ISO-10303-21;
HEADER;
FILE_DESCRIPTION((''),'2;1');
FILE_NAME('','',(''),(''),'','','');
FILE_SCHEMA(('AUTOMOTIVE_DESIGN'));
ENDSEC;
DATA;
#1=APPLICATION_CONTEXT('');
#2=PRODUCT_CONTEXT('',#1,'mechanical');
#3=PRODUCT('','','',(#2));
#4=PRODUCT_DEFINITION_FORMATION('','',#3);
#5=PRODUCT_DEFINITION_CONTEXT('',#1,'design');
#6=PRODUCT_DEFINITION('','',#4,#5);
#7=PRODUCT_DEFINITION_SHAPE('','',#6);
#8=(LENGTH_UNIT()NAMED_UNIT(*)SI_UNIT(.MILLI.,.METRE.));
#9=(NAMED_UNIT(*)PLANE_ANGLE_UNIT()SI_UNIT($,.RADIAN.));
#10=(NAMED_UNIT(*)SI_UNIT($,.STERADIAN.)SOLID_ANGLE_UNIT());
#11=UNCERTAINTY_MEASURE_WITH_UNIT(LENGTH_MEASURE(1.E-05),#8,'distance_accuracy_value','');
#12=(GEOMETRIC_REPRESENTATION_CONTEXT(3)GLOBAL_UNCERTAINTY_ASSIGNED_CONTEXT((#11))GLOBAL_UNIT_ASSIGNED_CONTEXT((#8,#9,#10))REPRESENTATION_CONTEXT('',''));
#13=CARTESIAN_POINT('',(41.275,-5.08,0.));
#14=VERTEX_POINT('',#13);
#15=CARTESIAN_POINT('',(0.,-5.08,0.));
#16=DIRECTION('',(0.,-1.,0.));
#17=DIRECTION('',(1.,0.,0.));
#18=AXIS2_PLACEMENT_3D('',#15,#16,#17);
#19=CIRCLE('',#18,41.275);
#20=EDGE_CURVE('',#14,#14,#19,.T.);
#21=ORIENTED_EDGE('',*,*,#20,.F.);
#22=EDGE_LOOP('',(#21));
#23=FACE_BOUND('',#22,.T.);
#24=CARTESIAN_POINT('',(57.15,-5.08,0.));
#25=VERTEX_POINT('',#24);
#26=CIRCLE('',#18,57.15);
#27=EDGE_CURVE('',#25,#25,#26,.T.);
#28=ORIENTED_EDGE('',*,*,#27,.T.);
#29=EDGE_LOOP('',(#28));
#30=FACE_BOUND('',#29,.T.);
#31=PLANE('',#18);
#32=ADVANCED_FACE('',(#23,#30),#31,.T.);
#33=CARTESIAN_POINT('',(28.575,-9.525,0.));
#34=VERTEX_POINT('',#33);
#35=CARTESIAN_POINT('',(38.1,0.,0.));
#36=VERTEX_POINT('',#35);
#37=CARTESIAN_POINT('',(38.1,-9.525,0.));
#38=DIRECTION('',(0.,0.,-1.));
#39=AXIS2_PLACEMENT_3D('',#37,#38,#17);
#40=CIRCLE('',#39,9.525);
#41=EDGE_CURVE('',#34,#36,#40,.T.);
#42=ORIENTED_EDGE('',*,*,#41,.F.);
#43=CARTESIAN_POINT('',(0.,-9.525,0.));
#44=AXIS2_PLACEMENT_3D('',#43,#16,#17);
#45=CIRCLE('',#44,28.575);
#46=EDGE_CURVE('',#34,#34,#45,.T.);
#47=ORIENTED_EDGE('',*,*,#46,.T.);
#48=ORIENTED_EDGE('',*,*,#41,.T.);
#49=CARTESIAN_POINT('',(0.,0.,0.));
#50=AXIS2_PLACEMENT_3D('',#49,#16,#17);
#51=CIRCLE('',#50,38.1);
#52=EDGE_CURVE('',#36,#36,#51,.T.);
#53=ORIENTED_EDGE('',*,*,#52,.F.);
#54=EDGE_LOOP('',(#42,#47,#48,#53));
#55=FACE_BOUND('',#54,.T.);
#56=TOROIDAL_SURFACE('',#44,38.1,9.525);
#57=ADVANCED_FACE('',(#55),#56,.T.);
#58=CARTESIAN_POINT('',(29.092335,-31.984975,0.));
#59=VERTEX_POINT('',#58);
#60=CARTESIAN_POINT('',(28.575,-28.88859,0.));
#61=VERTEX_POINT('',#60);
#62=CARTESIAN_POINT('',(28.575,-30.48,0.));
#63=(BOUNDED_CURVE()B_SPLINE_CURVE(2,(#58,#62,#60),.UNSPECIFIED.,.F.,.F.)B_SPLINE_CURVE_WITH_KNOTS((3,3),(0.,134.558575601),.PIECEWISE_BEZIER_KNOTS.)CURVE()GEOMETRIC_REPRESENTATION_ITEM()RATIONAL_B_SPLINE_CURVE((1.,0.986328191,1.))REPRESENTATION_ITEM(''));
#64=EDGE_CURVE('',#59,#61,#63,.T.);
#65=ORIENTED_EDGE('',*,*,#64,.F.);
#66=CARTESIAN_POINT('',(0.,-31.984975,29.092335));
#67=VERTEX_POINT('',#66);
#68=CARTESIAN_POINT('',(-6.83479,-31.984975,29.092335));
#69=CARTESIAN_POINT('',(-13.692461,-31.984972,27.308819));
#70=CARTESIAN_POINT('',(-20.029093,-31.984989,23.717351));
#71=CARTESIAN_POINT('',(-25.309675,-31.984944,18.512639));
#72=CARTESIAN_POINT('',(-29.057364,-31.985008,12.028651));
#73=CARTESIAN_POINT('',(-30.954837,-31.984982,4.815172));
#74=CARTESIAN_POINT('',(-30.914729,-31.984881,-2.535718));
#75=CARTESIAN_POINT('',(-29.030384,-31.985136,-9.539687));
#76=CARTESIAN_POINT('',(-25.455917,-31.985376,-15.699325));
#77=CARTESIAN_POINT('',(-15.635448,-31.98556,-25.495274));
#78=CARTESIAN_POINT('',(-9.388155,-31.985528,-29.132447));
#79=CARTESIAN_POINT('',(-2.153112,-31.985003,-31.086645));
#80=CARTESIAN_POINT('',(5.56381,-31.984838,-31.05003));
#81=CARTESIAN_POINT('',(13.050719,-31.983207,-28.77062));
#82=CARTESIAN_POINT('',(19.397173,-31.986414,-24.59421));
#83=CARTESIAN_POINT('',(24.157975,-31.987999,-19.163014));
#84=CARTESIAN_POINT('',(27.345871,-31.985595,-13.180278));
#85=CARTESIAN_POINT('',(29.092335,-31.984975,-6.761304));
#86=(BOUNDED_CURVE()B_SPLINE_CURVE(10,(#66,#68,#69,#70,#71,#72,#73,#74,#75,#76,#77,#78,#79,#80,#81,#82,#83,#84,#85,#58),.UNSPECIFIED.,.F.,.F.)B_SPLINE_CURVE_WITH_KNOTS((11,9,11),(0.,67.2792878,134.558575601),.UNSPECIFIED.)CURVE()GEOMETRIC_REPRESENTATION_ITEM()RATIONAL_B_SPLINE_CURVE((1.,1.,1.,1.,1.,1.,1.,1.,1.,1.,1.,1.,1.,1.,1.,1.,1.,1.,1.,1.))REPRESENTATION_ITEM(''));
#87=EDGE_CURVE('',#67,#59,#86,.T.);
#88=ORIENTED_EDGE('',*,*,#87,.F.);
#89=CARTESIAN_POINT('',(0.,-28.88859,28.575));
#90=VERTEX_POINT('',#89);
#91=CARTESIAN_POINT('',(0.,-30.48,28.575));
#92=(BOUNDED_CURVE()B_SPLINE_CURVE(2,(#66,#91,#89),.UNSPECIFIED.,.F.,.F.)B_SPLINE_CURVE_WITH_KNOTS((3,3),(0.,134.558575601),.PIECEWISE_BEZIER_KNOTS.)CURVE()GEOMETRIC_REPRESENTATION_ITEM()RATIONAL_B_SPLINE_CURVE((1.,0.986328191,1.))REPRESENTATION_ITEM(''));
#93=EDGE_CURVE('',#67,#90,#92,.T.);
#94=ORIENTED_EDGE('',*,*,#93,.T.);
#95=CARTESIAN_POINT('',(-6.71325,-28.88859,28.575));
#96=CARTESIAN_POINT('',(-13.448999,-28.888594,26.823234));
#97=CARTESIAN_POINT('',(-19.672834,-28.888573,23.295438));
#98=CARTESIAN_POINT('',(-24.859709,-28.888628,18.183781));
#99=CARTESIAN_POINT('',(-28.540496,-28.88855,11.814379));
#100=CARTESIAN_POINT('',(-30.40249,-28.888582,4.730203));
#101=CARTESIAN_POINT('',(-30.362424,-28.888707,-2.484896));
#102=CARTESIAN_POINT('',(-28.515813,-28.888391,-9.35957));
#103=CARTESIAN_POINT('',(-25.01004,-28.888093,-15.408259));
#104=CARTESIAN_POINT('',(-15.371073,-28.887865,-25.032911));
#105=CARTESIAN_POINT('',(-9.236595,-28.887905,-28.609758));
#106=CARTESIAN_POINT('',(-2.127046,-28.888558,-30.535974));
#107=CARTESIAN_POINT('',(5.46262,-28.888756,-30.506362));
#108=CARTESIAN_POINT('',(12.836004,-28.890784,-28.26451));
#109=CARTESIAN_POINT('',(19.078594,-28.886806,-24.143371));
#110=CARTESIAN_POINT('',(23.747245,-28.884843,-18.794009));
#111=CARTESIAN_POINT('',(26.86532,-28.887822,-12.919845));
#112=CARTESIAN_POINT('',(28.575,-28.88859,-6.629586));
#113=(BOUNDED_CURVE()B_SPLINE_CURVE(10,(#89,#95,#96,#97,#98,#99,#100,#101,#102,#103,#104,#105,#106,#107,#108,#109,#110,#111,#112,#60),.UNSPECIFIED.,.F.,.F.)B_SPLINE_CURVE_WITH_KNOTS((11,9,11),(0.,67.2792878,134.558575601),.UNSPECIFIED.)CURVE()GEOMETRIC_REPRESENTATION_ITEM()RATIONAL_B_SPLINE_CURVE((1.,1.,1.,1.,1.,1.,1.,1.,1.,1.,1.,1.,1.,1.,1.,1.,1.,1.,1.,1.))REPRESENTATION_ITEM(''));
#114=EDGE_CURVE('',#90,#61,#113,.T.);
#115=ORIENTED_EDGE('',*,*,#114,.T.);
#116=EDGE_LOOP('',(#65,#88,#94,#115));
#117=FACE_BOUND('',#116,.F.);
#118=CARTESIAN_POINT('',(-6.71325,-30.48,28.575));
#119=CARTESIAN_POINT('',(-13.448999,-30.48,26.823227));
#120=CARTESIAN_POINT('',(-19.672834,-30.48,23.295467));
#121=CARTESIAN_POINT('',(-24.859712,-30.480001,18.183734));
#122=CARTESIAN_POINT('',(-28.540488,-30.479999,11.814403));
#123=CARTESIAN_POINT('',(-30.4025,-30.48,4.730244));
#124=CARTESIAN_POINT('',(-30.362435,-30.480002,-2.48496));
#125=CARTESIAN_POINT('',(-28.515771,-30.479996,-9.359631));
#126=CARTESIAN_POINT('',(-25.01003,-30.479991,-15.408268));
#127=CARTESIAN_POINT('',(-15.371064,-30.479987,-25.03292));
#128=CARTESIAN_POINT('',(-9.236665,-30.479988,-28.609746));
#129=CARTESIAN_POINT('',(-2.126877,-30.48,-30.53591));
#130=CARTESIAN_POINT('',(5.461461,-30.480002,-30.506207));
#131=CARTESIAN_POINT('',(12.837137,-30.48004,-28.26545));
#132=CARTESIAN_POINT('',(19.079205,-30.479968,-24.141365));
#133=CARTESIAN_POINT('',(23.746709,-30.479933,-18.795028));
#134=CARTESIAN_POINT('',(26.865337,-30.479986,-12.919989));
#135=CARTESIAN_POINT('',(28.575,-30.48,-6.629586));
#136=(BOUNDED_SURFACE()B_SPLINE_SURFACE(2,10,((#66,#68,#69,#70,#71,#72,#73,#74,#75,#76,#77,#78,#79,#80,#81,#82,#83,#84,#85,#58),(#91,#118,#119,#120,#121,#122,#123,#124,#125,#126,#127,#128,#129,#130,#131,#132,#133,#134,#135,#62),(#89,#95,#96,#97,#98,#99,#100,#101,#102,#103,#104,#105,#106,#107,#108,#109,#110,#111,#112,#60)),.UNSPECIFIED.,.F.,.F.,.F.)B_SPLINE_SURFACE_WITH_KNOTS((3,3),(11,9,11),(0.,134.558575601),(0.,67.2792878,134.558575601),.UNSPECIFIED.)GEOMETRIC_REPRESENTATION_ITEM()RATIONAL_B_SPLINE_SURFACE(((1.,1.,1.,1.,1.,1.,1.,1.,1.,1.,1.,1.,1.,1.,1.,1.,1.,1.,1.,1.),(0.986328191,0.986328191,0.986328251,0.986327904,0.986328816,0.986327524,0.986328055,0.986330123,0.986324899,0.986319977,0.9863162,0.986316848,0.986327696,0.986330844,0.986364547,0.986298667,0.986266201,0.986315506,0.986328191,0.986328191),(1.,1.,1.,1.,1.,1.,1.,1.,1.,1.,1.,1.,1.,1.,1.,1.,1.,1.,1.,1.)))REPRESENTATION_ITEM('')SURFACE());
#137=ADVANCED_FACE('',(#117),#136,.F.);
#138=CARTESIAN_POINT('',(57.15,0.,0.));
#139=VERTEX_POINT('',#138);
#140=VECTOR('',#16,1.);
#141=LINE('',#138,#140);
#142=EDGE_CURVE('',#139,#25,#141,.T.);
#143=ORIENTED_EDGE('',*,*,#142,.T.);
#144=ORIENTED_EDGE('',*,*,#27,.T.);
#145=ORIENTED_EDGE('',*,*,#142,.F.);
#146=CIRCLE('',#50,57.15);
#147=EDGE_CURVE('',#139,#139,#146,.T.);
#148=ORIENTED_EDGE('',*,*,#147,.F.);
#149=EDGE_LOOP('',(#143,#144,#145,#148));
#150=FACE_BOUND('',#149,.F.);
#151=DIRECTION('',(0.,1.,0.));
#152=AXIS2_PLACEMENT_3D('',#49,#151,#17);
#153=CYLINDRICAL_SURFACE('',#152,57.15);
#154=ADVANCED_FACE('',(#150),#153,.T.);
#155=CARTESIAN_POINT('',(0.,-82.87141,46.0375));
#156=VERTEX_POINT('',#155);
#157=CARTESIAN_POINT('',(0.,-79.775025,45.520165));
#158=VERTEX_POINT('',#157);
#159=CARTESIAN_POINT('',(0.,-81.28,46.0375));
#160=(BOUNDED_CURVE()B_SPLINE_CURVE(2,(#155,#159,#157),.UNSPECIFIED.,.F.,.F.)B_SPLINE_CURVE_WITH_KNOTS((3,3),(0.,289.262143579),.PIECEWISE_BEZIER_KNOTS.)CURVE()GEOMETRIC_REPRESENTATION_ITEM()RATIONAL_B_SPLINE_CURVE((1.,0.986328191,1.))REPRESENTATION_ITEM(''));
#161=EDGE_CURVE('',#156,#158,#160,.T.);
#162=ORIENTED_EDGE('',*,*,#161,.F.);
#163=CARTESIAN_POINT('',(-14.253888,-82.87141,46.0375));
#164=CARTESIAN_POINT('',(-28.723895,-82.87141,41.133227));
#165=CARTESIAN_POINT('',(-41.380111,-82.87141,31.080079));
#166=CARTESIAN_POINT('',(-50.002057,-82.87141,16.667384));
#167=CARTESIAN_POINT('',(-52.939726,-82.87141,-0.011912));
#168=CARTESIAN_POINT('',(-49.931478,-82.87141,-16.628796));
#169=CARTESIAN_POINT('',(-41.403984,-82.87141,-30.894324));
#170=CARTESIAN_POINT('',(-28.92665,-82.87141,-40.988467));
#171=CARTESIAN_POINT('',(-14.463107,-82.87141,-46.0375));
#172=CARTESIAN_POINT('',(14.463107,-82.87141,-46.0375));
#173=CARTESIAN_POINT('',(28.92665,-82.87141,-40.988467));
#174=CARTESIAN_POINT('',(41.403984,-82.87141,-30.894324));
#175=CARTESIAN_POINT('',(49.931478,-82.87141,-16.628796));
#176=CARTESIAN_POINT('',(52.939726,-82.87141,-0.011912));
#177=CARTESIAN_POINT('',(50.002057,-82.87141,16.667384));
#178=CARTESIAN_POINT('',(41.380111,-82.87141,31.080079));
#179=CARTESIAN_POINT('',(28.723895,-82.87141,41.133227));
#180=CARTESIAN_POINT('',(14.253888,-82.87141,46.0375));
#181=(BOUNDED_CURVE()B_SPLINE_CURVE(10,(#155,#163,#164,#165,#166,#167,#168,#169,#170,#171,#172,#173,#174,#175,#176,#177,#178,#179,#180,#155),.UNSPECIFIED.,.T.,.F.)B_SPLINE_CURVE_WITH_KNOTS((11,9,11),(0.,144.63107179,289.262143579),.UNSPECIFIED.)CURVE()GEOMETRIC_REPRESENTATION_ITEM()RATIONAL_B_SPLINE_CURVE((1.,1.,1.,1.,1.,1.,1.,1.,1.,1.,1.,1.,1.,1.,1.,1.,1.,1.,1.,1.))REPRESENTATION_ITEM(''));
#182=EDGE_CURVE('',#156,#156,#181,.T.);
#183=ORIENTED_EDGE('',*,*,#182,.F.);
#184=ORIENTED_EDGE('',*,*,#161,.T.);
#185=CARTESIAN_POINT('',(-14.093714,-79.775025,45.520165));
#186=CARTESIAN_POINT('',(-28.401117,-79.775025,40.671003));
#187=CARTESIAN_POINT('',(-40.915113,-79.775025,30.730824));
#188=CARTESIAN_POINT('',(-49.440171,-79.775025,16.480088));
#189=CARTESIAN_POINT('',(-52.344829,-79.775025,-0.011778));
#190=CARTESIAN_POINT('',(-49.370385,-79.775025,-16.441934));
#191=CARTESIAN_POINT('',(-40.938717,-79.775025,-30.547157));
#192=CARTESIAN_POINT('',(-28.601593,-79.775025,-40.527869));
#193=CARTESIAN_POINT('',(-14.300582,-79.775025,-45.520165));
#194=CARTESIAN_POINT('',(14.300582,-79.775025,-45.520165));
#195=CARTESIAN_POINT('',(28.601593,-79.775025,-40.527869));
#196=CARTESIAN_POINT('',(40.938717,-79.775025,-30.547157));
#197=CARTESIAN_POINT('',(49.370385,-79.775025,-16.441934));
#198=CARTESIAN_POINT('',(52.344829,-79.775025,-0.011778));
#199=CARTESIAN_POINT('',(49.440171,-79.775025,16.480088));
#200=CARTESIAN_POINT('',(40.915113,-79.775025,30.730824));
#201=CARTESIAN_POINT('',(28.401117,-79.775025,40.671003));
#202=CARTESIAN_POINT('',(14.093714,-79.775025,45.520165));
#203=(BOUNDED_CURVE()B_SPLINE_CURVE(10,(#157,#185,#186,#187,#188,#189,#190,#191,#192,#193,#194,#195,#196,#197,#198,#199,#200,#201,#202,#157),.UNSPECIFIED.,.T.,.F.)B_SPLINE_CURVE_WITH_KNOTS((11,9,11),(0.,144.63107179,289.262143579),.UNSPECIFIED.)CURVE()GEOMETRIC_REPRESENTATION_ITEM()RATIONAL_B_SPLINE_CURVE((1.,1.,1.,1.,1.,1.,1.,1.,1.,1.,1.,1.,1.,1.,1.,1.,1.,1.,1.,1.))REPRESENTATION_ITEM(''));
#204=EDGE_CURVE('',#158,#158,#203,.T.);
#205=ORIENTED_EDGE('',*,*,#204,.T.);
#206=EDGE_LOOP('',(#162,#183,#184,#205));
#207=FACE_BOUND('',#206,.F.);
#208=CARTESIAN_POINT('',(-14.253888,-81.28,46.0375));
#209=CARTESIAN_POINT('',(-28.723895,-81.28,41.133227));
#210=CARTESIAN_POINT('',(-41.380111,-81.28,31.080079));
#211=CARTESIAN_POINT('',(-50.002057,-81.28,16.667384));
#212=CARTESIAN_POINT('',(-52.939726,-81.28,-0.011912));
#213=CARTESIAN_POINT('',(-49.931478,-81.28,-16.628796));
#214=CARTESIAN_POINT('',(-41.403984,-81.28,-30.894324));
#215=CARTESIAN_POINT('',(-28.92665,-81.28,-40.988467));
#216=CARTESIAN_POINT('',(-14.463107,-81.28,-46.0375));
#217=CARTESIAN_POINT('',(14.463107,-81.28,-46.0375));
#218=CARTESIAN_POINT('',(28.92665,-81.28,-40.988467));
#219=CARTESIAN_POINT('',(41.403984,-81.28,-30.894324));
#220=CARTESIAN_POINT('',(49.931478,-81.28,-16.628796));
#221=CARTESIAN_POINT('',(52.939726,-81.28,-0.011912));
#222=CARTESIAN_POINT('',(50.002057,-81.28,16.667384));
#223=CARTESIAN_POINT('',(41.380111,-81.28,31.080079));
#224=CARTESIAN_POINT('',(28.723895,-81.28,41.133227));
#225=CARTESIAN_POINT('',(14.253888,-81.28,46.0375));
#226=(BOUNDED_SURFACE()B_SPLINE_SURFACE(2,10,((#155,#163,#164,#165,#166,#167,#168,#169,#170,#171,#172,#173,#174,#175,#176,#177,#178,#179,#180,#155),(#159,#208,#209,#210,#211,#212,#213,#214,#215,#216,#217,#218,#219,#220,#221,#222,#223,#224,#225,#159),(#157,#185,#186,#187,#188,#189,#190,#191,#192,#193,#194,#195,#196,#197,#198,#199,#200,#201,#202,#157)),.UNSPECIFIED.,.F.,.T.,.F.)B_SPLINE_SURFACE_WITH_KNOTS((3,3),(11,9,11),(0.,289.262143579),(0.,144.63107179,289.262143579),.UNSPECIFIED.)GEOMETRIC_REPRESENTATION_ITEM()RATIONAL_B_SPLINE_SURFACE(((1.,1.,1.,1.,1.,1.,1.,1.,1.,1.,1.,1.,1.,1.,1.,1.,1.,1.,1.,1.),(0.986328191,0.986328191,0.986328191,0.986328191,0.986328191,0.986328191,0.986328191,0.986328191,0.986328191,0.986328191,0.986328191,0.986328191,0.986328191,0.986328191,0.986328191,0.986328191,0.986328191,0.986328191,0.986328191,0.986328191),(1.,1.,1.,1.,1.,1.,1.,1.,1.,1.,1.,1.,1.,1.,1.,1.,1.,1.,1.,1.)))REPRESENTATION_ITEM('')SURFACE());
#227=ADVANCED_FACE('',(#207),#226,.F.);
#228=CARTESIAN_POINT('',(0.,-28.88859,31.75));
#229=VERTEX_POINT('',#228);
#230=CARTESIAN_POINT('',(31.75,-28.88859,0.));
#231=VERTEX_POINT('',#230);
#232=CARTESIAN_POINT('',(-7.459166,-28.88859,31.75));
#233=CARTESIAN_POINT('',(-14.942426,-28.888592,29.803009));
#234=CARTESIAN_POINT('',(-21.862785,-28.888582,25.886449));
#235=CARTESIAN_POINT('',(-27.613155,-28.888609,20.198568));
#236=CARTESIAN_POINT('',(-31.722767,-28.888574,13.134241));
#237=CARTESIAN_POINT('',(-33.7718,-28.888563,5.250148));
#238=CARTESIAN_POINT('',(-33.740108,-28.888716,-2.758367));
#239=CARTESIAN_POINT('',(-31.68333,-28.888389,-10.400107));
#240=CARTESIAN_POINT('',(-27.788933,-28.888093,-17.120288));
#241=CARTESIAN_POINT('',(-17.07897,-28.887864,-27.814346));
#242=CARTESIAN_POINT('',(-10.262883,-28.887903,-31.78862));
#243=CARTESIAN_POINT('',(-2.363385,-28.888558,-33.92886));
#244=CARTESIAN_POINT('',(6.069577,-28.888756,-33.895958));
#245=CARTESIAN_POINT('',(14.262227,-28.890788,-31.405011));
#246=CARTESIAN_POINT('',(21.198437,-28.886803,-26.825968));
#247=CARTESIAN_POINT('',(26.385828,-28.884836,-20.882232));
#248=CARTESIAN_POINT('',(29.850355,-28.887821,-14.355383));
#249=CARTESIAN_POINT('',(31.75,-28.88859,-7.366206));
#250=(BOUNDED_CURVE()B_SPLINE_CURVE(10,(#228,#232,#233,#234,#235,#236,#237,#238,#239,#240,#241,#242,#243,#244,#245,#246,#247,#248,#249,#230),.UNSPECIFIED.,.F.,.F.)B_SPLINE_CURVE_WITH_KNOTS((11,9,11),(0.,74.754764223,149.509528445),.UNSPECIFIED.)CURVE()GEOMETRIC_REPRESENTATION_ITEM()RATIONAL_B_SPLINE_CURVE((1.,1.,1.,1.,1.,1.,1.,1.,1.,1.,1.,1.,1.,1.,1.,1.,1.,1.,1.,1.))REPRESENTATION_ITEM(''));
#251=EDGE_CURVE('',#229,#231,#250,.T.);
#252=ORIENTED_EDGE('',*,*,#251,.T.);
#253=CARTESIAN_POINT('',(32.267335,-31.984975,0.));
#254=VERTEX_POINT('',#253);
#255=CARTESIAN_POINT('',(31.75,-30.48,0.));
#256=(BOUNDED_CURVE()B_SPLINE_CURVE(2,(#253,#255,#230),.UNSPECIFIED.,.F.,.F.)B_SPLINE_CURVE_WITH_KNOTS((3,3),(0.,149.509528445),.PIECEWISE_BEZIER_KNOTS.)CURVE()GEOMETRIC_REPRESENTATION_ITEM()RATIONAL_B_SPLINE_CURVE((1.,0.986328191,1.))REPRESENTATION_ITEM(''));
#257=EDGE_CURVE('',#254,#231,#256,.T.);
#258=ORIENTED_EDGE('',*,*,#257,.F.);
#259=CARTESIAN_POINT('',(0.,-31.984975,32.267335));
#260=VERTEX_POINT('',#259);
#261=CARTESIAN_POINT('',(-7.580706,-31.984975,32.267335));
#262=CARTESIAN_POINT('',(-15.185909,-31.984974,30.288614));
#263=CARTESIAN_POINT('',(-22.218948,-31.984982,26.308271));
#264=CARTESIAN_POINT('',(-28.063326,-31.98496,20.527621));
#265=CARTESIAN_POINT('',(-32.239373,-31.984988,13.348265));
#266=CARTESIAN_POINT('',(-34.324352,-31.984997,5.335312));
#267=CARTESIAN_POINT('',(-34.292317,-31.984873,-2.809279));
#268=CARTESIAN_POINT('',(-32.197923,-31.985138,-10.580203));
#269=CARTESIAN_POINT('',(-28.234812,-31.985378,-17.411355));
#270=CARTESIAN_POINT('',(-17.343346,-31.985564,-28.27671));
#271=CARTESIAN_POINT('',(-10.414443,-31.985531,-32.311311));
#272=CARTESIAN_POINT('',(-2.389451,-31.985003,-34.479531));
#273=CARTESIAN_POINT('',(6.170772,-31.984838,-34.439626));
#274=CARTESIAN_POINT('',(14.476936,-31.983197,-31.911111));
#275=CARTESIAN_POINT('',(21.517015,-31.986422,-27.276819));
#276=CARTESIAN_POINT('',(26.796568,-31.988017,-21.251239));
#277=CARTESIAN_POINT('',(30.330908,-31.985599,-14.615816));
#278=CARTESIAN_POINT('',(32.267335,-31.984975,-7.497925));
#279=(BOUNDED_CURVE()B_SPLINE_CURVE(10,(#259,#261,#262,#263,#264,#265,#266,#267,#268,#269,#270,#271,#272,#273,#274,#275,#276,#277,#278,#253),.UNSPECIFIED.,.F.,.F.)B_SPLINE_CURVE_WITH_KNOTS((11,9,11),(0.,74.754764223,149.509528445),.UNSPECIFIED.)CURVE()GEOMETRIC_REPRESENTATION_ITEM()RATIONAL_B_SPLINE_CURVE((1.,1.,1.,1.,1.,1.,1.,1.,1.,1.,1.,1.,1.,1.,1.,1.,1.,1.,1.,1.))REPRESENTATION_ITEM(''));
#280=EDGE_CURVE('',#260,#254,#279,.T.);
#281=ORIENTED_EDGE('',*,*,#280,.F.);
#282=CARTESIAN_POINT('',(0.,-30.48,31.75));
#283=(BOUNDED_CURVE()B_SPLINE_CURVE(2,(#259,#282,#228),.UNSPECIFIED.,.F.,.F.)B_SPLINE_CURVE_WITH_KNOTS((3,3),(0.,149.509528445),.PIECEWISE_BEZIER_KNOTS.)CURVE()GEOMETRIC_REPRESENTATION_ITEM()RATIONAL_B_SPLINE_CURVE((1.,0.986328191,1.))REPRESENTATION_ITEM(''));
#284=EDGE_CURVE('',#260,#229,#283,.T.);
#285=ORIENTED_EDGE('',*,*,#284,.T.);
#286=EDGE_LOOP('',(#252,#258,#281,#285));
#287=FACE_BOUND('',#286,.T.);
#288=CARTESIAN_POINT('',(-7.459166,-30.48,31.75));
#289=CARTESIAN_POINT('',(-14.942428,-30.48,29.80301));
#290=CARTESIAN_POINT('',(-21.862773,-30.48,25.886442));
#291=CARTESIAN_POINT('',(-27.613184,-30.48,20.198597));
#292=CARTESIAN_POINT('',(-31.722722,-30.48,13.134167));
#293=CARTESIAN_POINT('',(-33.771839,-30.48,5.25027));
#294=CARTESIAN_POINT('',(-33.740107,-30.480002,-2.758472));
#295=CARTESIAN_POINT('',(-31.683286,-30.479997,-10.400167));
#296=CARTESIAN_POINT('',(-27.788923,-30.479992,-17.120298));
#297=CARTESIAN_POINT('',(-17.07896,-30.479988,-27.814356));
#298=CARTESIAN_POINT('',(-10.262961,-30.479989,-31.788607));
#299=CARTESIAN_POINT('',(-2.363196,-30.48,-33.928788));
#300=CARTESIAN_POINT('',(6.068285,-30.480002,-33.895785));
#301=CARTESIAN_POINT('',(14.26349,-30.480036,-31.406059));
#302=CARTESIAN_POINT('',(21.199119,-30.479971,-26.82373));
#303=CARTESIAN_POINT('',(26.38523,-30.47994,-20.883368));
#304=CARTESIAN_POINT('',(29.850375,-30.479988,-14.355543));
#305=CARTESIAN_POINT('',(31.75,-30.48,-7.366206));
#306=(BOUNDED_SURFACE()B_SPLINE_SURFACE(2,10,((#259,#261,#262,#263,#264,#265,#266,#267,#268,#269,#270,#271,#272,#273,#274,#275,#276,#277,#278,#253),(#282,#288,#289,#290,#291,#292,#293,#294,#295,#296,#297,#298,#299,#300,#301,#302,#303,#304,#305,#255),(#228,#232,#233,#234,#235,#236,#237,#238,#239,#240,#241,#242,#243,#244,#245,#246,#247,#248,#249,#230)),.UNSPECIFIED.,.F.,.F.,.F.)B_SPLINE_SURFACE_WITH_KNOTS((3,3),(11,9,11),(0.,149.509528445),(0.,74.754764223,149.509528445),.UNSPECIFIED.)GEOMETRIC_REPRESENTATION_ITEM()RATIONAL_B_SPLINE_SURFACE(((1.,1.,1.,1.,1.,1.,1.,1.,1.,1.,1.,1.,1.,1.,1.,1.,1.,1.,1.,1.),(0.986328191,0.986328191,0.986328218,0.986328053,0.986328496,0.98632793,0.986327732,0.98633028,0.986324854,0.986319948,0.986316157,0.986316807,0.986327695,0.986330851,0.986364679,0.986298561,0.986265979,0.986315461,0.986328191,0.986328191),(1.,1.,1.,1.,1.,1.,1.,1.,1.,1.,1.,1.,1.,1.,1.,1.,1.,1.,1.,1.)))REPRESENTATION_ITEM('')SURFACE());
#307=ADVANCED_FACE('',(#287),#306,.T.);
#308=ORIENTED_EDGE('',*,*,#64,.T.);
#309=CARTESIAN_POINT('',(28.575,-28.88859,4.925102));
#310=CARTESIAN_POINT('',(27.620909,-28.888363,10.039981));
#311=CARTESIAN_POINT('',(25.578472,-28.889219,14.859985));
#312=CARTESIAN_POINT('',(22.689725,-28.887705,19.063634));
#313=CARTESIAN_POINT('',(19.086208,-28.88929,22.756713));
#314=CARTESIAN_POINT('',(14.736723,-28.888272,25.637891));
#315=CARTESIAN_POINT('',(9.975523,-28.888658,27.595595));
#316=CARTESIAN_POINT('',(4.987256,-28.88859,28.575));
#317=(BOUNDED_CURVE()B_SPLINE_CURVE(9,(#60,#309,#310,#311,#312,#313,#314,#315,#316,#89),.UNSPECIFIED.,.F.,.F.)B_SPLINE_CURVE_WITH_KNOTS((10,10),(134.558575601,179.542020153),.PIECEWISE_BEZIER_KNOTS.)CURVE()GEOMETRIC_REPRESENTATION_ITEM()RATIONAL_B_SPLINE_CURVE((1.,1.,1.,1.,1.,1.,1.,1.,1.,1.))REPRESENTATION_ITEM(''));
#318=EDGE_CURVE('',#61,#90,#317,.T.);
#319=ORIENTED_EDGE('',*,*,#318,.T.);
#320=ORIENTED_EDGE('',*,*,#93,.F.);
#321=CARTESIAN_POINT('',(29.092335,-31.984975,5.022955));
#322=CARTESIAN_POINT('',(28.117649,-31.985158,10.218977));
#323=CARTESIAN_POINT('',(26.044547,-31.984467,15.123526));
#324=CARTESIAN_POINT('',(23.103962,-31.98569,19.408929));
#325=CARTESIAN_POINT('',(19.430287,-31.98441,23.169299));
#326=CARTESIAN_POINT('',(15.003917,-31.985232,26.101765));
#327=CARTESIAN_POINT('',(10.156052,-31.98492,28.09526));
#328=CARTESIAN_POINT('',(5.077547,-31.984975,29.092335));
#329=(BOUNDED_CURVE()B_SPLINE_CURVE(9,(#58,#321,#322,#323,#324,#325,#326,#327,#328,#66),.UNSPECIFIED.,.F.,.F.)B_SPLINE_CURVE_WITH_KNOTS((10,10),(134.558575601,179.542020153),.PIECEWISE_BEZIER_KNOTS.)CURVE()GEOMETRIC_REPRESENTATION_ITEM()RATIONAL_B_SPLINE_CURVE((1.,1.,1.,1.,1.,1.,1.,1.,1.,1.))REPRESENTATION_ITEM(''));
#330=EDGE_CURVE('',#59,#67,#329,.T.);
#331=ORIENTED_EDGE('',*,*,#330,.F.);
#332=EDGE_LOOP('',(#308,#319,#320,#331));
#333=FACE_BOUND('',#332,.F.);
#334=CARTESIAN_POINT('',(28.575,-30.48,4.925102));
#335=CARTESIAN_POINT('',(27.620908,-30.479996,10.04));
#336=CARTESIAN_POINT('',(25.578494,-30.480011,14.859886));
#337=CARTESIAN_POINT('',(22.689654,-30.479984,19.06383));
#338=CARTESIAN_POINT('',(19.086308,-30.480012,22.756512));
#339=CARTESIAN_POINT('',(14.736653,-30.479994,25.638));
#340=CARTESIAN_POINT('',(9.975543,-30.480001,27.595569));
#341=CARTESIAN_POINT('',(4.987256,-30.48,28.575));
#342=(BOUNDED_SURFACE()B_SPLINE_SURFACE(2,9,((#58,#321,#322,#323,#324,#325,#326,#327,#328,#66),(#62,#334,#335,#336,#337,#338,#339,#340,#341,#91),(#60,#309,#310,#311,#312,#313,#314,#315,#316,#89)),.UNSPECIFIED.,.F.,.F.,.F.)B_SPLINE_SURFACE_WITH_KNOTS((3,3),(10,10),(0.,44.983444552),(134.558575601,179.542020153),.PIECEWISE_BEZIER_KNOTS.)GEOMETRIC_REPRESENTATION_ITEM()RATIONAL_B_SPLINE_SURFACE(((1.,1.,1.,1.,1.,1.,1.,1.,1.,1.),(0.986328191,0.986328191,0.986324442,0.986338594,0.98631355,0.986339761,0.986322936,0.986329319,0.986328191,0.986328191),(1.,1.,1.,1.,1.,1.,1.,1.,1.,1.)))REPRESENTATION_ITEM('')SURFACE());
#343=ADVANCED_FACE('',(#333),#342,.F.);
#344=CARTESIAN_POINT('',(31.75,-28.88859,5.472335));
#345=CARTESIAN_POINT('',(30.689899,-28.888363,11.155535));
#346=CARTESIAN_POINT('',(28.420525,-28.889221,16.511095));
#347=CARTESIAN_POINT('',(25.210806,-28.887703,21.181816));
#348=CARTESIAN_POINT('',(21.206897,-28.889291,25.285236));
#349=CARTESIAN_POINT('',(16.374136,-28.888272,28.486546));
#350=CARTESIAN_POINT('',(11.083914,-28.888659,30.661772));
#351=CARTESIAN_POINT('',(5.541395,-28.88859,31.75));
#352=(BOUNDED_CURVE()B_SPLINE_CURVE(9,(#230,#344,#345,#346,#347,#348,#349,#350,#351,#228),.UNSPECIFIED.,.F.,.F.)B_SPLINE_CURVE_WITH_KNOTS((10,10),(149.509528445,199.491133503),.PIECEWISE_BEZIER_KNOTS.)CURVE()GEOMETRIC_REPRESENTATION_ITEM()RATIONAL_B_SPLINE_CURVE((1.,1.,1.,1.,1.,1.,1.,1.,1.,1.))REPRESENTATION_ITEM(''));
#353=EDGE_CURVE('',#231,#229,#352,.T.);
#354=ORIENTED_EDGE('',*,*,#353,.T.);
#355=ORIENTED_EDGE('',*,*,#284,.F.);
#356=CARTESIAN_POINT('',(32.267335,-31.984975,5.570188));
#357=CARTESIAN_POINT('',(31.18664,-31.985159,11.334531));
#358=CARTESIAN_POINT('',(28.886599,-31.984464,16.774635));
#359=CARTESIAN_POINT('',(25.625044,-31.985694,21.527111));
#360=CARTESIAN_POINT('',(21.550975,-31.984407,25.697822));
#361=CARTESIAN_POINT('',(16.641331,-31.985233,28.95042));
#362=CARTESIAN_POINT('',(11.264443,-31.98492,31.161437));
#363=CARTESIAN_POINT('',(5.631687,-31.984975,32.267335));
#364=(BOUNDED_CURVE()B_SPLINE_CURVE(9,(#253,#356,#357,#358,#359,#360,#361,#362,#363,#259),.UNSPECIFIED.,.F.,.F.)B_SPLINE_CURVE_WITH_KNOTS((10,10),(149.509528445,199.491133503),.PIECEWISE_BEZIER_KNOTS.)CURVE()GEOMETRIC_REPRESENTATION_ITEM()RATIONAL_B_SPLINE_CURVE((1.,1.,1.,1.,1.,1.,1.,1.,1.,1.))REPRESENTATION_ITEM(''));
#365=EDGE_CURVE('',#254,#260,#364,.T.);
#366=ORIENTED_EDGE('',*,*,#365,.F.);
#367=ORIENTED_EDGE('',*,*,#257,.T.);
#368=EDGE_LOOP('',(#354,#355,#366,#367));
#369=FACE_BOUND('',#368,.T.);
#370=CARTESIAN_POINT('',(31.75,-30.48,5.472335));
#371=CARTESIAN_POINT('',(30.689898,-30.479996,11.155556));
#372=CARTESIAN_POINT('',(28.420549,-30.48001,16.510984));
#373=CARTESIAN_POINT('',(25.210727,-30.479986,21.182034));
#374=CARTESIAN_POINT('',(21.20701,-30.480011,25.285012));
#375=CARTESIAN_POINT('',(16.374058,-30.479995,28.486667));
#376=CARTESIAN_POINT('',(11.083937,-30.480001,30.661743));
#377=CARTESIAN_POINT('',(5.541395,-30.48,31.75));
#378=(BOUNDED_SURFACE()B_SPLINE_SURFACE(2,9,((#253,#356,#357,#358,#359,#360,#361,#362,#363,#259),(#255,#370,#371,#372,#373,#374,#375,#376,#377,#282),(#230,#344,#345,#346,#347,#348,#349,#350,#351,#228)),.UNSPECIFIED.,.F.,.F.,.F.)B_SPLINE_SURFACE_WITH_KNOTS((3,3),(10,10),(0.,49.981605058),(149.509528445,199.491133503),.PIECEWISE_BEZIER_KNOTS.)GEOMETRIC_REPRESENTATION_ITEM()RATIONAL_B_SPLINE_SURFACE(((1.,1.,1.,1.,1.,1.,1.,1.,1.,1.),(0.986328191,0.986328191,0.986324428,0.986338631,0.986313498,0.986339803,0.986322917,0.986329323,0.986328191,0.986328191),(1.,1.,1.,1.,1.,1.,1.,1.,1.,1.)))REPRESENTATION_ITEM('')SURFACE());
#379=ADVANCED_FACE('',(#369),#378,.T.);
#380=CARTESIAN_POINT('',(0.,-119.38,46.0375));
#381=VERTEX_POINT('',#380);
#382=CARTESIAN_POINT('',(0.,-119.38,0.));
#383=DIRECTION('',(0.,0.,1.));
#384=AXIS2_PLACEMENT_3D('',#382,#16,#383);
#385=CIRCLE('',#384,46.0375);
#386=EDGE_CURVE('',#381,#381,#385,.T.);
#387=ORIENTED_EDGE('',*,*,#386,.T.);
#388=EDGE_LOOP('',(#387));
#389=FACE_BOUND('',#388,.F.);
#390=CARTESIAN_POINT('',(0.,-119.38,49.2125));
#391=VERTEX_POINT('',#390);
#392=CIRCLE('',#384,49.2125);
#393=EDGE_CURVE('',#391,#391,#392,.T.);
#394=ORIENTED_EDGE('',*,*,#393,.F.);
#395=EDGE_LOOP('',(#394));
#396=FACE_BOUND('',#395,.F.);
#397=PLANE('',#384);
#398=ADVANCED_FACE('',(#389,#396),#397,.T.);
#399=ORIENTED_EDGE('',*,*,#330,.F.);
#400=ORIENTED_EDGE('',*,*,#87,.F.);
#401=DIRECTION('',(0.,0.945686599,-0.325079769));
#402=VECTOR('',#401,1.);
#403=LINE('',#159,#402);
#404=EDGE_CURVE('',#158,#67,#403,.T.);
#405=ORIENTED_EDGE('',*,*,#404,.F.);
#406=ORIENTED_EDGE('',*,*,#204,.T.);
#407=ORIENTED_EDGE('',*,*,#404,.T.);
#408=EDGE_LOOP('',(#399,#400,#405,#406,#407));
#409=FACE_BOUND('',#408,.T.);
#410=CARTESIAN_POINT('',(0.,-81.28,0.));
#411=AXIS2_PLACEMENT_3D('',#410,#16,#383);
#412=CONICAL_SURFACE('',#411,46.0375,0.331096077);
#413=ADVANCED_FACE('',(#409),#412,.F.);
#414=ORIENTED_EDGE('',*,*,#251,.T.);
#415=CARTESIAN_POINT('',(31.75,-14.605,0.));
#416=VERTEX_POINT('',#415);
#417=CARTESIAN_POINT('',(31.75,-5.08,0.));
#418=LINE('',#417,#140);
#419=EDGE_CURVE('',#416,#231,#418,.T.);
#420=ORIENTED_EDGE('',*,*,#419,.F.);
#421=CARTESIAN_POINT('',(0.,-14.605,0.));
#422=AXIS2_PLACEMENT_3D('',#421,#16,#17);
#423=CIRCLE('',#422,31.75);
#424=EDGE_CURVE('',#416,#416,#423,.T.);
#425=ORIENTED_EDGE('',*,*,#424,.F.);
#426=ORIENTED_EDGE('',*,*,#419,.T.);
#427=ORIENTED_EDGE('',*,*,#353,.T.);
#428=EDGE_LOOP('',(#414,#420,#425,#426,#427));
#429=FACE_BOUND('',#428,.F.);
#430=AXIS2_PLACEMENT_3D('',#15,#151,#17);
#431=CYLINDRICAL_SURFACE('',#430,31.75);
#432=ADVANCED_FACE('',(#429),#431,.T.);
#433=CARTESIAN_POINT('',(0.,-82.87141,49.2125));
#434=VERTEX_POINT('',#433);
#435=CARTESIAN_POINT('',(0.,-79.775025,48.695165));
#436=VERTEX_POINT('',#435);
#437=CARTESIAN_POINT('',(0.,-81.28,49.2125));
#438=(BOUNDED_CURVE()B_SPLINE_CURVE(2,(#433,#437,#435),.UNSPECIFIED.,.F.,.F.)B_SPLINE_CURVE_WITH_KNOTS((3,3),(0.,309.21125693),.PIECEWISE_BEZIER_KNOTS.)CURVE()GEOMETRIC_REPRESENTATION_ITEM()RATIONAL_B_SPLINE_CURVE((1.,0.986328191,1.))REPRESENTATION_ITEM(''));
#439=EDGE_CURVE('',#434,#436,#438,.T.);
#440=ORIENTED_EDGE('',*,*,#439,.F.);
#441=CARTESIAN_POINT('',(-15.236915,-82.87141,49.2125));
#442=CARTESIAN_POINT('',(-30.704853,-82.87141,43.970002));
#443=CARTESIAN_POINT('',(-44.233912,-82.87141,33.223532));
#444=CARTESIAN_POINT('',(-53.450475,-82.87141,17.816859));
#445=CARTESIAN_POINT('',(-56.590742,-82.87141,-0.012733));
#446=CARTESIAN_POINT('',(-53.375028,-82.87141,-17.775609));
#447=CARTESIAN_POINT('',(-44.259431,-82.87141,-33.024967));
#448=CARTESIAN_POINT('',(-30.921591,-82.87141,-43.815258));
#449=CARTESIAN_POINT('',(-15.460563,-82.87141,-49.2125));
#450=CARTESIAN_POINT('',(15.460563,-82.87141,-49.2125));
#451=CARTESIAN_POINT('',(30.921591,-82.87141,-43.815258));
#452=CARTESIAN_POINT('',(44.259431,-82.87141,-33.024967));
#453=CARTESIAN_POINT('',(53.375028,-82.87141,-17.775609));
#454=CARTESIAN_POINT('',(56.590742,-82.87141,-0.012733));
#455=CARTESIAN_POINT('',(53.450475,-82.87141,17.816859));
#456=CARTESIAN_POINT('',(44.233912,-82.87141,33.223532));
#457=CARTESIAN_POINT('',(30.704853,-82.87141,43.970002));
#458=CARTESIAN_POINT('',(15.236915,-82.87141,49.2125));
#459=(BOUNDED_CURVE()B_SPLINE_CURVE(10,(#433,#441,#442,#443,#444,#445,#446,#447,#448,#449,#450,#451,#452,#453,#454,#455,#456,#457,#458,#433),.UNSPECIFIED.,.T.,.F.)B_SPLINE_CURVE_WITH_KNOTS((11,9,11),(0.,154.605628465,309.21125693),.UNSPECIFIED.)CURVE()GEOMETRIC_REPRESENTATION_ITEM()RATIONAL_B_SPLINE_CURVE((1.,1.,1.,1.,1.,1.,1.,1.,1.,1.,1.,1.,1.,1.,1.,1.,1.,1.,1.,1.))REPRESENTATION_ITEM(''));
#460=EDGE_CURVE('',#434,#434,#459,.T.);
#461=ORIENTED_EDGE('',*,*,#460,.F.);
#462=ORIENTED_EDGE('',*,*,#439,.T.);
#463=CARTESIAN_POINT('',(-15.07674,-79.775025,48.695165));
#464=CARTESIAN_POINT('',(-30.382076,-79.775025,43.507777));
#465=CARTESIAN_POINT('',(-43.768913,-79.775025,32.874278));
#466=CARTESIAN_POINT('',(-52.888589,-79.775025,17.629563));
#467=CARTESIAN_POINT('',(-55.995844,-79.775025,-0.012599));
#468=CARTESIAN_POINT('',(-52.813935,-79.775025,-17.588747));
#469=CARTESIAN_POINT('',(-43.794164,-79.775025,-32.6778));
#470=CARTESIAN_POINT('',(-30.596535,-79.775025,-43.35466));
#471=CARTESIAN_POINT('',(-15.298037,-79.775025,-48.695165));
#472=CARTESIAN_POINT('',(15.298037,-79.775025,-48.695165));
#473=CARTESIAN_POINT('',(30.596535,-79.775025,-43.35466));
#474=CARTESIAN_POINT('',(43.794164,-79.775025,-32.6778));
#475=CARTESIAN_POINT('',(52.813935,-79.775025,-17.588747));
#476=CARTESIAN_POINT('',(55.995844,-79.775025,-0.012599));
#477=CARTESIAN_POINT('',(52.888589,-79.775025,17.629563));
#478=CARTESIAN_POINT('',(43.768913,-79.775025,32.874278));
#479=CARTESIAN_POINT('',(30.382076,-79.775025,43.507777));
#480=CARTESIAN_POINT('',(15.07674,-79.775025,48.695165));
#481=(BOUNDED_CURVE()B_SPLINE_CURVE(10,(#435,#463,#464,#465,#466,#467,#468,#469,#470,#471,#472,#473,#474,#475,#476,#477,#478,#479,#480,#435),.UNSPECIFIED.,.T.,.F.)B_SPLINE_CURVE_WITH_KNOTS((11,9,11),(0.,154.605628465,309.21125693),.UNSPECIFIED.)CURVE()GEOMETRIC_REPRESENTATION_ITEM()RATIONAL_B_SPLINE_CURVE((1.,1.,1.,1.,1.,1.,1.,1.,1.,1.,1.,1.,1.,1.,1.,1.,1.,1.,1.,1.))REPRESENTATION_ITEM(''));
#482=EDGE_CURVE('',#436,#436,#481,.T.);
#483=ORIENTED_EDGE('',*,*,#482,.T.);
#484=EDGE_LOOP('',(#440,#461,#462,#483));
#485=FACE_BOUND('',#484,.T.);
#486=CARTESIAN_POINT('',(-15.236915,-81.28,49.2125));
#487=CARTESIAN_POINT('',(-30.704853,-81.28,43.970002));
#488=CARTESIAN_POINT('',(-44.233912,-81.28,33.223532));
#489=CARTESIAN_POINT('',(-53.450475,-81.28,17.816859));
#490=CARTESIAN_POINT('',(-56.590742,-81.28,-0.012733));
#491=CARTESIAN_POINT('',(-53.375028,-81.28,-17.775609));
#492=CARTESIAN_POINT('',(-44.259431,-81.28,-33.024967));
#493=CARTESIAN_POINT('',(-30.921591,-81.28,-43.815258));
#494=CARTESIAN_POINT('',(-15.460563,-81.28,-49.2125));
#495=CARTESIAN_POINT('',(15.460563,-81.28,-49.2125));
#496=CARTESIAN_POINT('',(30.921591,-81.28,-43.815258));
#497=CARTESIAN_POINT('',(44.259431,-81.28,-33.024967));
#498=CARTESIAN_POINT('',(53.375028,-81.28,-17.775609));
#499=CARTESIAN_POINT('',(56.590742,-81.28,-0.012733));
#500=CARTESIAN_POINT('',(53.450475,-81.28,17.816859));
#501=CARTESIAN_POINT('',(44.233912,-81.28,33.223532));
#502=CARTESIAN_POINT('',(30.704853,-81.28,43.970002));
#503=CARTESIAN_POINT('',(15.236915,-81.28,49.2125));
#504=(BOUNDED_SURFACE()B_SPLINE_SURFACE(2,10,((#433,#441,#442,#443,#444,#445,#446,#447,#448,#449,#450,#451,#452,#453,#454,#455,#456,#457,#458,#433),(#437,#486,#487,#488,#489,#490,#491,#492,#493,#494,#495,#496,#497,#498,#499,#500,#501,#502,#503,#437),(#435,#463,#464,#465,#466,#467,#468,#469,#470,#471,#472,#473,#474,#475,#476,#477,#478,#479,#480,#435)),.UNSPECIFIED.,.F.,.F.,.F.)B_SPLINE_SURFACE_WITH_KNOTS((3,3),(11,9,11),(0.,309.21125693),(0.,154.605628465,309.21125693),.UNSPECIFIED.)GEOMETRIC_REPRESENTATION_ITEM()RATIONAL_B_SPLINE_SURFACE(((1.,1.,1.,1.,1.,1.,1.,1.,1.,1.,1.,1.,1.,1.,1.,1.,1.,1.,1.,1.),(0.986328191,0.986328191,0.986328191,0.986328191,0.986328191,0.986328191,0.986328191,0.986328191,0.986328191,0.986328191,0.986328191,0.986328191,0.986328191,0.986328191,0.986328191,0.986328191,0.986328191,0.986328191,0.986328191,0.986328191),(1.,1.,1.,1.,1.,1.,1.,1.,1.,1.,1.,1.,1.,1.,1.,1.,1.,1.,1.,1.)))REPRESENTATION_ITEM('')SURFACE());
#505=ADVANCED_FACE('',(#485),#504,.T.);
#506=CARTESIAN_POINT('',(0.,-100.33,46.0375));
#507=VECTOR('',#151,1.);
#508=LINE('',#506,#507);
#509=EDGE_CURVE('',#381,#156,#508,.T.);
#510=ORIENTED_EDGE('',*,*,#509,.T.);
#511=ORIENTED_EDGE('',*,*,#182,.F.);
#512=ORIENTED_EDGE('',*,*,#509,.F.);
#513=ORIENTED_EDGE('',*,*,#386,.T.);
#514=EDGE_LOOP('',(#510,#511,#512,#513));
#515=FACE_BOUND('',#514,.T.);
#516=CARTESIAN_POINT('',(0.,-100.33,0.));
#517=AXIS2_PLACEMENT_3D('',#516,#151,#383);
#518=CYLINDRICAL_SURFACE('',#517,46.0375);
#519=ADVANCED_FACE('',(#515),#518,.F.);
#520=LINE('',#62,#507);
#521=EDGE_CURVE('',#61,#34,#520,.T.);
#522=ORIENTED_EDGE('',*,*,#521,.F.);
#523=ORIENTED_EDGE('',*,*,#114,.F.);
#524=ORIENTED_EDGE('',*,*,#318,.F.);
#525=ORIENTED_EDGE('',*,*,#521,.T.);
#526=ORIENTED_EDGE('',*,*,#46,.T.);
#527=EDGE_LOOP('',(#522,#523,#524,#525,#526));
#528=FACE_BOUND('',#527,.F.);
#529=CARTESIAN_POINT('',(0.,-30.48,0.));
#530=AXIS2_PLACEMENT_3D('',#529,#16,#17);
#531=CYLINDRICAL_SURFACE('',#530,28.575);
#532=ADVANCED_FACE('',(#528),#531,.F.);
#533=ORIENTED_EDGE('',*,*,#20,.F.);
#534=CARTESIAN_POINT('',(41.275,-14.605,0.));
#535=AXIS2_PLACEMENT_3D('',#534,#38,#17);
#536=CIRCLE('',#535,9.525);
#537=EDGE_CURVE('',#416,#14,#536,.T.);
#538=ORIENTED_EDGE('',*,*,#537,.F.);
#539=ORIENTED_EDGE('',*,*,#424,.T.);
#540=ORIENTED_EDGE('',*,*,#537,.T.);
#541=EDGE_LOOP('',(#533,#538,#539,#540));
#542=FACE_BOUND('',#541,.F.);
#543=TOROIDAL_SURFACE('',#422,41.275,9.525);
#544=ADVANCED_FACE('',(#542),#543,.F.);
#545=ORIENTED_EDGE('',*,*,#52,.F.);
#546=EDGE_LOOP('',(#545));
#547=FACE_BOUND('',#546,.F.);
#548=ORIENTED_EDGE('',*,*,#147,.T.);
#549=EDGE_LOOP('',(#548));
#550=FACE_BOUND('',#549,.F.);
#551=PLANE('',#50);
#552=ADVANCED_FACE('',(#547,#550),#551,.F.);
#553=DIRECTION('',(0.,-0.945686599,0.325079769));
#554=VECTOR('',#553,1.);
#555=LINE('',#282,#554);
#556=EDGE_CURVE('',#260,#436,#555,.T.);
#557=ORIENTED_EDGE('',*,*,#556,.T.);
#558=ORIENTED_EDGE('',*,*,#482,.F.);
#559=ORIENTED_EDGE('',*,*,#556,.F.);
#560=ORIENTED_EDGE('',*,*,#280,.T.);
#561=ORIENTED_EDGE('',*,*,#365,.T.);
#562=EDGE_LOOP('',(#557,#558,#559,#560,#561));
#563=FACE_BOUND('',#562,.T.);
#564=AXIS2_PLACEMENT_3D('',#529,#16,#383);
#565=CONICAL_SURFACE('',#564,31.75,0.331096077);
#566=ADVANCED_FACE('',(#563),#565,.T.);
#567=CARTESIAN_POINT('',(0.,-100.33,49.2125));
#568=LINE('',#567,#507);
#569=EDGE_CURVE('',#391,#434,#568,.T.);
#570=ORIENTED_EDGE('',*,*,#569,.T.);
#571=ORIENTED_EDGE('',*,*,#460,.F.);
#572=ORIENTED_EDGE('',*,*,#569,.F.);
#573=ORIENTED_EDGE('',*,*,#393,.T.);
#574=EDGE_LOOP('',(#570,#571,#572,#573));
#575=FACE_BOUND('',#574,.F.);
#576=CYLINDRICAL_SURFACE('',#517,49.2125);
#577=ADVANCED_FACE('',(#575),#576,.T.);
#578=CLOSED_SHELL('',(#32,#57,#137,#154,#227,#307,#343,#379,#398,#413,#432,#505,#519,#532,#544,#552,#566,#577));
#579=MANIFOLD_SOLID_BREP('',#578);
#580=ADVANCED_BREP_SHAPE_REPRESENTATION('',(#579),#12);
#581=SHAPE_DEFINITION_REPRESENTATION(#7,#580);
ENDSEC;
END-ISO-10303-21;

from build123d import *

# Parameters (mm, degrees)
F0_R     = 57.15
F1_DEPTH = 5.08
F2_R     = 31.75
F3_DEPTH = 25.4
F4_R     = 28.575
F5_DEPTH = 30.481
F8_W     = 38.1
F8_H     = 3.175
F10_R    = 9.525
F11_R    = 9.525


with BuildPart() as f1:
    # F0 (on Front) → F1 (new body)
    with BuildSketch(Plane.XZ):
        Circle(F0_R)
    extrude(amount=F1_DEPTH)

    # F2 (on face) → F3 (join)
    with BuildSketch(Plane.XZ.offset(5.08)):
        Circle(F2_R)
    extrude(amount=F3_DEPTH)

    # F4 (on face) → F5 (cut, through all)
    with BuildSketch(Plane.XZ.offset(30.48)):
        Circle(F4_R)
    extrude(amount=-F5_DEPTH, mode=Mode.SUBTRACT)

    # F6 (on Right) → F7 (revolve)
    with BuildSketch(Plane.YZ):
        Polygon((-81.28, 46.0375), (-30.48, 28.575), (-30.48, 31.75), (-81.28, 49.2125), align=None)
    revolve(axis=Axis((0, -18.848058, 0), (0, -1, 0)))

    # F8 (on Right) → F9 (revolve)
    with BuildSketch(Plane.YZ):
        with Locations((-100.33, 47.625)):
            Rectangle(F8_W, F8_H)
    revolve(axis=Axis((0, -63.416593, 0), (0, -1, 0)))

    # F10
    f10_edges = [f1.edges().sort_by_distance(p)[0] for p in [
        (-31.75, -5.08, 0),
        (-22.45064, -30.48, -22.45064),
        (0, -81.28, -49.2125),
    ]]
    fillet(f10_edges, radius=F10_R)

    # F11
    f11_edges = [f1.edges().sort_by_distance(p)[0] for p in [
        (-28.575, 0, 0),
        (-20.205576, -30.48, -20.205576),
        (0, -81.28, -46.0375),
    ]]
    fillet(f11_edges, radius=F11_R)


solid = f1.part
